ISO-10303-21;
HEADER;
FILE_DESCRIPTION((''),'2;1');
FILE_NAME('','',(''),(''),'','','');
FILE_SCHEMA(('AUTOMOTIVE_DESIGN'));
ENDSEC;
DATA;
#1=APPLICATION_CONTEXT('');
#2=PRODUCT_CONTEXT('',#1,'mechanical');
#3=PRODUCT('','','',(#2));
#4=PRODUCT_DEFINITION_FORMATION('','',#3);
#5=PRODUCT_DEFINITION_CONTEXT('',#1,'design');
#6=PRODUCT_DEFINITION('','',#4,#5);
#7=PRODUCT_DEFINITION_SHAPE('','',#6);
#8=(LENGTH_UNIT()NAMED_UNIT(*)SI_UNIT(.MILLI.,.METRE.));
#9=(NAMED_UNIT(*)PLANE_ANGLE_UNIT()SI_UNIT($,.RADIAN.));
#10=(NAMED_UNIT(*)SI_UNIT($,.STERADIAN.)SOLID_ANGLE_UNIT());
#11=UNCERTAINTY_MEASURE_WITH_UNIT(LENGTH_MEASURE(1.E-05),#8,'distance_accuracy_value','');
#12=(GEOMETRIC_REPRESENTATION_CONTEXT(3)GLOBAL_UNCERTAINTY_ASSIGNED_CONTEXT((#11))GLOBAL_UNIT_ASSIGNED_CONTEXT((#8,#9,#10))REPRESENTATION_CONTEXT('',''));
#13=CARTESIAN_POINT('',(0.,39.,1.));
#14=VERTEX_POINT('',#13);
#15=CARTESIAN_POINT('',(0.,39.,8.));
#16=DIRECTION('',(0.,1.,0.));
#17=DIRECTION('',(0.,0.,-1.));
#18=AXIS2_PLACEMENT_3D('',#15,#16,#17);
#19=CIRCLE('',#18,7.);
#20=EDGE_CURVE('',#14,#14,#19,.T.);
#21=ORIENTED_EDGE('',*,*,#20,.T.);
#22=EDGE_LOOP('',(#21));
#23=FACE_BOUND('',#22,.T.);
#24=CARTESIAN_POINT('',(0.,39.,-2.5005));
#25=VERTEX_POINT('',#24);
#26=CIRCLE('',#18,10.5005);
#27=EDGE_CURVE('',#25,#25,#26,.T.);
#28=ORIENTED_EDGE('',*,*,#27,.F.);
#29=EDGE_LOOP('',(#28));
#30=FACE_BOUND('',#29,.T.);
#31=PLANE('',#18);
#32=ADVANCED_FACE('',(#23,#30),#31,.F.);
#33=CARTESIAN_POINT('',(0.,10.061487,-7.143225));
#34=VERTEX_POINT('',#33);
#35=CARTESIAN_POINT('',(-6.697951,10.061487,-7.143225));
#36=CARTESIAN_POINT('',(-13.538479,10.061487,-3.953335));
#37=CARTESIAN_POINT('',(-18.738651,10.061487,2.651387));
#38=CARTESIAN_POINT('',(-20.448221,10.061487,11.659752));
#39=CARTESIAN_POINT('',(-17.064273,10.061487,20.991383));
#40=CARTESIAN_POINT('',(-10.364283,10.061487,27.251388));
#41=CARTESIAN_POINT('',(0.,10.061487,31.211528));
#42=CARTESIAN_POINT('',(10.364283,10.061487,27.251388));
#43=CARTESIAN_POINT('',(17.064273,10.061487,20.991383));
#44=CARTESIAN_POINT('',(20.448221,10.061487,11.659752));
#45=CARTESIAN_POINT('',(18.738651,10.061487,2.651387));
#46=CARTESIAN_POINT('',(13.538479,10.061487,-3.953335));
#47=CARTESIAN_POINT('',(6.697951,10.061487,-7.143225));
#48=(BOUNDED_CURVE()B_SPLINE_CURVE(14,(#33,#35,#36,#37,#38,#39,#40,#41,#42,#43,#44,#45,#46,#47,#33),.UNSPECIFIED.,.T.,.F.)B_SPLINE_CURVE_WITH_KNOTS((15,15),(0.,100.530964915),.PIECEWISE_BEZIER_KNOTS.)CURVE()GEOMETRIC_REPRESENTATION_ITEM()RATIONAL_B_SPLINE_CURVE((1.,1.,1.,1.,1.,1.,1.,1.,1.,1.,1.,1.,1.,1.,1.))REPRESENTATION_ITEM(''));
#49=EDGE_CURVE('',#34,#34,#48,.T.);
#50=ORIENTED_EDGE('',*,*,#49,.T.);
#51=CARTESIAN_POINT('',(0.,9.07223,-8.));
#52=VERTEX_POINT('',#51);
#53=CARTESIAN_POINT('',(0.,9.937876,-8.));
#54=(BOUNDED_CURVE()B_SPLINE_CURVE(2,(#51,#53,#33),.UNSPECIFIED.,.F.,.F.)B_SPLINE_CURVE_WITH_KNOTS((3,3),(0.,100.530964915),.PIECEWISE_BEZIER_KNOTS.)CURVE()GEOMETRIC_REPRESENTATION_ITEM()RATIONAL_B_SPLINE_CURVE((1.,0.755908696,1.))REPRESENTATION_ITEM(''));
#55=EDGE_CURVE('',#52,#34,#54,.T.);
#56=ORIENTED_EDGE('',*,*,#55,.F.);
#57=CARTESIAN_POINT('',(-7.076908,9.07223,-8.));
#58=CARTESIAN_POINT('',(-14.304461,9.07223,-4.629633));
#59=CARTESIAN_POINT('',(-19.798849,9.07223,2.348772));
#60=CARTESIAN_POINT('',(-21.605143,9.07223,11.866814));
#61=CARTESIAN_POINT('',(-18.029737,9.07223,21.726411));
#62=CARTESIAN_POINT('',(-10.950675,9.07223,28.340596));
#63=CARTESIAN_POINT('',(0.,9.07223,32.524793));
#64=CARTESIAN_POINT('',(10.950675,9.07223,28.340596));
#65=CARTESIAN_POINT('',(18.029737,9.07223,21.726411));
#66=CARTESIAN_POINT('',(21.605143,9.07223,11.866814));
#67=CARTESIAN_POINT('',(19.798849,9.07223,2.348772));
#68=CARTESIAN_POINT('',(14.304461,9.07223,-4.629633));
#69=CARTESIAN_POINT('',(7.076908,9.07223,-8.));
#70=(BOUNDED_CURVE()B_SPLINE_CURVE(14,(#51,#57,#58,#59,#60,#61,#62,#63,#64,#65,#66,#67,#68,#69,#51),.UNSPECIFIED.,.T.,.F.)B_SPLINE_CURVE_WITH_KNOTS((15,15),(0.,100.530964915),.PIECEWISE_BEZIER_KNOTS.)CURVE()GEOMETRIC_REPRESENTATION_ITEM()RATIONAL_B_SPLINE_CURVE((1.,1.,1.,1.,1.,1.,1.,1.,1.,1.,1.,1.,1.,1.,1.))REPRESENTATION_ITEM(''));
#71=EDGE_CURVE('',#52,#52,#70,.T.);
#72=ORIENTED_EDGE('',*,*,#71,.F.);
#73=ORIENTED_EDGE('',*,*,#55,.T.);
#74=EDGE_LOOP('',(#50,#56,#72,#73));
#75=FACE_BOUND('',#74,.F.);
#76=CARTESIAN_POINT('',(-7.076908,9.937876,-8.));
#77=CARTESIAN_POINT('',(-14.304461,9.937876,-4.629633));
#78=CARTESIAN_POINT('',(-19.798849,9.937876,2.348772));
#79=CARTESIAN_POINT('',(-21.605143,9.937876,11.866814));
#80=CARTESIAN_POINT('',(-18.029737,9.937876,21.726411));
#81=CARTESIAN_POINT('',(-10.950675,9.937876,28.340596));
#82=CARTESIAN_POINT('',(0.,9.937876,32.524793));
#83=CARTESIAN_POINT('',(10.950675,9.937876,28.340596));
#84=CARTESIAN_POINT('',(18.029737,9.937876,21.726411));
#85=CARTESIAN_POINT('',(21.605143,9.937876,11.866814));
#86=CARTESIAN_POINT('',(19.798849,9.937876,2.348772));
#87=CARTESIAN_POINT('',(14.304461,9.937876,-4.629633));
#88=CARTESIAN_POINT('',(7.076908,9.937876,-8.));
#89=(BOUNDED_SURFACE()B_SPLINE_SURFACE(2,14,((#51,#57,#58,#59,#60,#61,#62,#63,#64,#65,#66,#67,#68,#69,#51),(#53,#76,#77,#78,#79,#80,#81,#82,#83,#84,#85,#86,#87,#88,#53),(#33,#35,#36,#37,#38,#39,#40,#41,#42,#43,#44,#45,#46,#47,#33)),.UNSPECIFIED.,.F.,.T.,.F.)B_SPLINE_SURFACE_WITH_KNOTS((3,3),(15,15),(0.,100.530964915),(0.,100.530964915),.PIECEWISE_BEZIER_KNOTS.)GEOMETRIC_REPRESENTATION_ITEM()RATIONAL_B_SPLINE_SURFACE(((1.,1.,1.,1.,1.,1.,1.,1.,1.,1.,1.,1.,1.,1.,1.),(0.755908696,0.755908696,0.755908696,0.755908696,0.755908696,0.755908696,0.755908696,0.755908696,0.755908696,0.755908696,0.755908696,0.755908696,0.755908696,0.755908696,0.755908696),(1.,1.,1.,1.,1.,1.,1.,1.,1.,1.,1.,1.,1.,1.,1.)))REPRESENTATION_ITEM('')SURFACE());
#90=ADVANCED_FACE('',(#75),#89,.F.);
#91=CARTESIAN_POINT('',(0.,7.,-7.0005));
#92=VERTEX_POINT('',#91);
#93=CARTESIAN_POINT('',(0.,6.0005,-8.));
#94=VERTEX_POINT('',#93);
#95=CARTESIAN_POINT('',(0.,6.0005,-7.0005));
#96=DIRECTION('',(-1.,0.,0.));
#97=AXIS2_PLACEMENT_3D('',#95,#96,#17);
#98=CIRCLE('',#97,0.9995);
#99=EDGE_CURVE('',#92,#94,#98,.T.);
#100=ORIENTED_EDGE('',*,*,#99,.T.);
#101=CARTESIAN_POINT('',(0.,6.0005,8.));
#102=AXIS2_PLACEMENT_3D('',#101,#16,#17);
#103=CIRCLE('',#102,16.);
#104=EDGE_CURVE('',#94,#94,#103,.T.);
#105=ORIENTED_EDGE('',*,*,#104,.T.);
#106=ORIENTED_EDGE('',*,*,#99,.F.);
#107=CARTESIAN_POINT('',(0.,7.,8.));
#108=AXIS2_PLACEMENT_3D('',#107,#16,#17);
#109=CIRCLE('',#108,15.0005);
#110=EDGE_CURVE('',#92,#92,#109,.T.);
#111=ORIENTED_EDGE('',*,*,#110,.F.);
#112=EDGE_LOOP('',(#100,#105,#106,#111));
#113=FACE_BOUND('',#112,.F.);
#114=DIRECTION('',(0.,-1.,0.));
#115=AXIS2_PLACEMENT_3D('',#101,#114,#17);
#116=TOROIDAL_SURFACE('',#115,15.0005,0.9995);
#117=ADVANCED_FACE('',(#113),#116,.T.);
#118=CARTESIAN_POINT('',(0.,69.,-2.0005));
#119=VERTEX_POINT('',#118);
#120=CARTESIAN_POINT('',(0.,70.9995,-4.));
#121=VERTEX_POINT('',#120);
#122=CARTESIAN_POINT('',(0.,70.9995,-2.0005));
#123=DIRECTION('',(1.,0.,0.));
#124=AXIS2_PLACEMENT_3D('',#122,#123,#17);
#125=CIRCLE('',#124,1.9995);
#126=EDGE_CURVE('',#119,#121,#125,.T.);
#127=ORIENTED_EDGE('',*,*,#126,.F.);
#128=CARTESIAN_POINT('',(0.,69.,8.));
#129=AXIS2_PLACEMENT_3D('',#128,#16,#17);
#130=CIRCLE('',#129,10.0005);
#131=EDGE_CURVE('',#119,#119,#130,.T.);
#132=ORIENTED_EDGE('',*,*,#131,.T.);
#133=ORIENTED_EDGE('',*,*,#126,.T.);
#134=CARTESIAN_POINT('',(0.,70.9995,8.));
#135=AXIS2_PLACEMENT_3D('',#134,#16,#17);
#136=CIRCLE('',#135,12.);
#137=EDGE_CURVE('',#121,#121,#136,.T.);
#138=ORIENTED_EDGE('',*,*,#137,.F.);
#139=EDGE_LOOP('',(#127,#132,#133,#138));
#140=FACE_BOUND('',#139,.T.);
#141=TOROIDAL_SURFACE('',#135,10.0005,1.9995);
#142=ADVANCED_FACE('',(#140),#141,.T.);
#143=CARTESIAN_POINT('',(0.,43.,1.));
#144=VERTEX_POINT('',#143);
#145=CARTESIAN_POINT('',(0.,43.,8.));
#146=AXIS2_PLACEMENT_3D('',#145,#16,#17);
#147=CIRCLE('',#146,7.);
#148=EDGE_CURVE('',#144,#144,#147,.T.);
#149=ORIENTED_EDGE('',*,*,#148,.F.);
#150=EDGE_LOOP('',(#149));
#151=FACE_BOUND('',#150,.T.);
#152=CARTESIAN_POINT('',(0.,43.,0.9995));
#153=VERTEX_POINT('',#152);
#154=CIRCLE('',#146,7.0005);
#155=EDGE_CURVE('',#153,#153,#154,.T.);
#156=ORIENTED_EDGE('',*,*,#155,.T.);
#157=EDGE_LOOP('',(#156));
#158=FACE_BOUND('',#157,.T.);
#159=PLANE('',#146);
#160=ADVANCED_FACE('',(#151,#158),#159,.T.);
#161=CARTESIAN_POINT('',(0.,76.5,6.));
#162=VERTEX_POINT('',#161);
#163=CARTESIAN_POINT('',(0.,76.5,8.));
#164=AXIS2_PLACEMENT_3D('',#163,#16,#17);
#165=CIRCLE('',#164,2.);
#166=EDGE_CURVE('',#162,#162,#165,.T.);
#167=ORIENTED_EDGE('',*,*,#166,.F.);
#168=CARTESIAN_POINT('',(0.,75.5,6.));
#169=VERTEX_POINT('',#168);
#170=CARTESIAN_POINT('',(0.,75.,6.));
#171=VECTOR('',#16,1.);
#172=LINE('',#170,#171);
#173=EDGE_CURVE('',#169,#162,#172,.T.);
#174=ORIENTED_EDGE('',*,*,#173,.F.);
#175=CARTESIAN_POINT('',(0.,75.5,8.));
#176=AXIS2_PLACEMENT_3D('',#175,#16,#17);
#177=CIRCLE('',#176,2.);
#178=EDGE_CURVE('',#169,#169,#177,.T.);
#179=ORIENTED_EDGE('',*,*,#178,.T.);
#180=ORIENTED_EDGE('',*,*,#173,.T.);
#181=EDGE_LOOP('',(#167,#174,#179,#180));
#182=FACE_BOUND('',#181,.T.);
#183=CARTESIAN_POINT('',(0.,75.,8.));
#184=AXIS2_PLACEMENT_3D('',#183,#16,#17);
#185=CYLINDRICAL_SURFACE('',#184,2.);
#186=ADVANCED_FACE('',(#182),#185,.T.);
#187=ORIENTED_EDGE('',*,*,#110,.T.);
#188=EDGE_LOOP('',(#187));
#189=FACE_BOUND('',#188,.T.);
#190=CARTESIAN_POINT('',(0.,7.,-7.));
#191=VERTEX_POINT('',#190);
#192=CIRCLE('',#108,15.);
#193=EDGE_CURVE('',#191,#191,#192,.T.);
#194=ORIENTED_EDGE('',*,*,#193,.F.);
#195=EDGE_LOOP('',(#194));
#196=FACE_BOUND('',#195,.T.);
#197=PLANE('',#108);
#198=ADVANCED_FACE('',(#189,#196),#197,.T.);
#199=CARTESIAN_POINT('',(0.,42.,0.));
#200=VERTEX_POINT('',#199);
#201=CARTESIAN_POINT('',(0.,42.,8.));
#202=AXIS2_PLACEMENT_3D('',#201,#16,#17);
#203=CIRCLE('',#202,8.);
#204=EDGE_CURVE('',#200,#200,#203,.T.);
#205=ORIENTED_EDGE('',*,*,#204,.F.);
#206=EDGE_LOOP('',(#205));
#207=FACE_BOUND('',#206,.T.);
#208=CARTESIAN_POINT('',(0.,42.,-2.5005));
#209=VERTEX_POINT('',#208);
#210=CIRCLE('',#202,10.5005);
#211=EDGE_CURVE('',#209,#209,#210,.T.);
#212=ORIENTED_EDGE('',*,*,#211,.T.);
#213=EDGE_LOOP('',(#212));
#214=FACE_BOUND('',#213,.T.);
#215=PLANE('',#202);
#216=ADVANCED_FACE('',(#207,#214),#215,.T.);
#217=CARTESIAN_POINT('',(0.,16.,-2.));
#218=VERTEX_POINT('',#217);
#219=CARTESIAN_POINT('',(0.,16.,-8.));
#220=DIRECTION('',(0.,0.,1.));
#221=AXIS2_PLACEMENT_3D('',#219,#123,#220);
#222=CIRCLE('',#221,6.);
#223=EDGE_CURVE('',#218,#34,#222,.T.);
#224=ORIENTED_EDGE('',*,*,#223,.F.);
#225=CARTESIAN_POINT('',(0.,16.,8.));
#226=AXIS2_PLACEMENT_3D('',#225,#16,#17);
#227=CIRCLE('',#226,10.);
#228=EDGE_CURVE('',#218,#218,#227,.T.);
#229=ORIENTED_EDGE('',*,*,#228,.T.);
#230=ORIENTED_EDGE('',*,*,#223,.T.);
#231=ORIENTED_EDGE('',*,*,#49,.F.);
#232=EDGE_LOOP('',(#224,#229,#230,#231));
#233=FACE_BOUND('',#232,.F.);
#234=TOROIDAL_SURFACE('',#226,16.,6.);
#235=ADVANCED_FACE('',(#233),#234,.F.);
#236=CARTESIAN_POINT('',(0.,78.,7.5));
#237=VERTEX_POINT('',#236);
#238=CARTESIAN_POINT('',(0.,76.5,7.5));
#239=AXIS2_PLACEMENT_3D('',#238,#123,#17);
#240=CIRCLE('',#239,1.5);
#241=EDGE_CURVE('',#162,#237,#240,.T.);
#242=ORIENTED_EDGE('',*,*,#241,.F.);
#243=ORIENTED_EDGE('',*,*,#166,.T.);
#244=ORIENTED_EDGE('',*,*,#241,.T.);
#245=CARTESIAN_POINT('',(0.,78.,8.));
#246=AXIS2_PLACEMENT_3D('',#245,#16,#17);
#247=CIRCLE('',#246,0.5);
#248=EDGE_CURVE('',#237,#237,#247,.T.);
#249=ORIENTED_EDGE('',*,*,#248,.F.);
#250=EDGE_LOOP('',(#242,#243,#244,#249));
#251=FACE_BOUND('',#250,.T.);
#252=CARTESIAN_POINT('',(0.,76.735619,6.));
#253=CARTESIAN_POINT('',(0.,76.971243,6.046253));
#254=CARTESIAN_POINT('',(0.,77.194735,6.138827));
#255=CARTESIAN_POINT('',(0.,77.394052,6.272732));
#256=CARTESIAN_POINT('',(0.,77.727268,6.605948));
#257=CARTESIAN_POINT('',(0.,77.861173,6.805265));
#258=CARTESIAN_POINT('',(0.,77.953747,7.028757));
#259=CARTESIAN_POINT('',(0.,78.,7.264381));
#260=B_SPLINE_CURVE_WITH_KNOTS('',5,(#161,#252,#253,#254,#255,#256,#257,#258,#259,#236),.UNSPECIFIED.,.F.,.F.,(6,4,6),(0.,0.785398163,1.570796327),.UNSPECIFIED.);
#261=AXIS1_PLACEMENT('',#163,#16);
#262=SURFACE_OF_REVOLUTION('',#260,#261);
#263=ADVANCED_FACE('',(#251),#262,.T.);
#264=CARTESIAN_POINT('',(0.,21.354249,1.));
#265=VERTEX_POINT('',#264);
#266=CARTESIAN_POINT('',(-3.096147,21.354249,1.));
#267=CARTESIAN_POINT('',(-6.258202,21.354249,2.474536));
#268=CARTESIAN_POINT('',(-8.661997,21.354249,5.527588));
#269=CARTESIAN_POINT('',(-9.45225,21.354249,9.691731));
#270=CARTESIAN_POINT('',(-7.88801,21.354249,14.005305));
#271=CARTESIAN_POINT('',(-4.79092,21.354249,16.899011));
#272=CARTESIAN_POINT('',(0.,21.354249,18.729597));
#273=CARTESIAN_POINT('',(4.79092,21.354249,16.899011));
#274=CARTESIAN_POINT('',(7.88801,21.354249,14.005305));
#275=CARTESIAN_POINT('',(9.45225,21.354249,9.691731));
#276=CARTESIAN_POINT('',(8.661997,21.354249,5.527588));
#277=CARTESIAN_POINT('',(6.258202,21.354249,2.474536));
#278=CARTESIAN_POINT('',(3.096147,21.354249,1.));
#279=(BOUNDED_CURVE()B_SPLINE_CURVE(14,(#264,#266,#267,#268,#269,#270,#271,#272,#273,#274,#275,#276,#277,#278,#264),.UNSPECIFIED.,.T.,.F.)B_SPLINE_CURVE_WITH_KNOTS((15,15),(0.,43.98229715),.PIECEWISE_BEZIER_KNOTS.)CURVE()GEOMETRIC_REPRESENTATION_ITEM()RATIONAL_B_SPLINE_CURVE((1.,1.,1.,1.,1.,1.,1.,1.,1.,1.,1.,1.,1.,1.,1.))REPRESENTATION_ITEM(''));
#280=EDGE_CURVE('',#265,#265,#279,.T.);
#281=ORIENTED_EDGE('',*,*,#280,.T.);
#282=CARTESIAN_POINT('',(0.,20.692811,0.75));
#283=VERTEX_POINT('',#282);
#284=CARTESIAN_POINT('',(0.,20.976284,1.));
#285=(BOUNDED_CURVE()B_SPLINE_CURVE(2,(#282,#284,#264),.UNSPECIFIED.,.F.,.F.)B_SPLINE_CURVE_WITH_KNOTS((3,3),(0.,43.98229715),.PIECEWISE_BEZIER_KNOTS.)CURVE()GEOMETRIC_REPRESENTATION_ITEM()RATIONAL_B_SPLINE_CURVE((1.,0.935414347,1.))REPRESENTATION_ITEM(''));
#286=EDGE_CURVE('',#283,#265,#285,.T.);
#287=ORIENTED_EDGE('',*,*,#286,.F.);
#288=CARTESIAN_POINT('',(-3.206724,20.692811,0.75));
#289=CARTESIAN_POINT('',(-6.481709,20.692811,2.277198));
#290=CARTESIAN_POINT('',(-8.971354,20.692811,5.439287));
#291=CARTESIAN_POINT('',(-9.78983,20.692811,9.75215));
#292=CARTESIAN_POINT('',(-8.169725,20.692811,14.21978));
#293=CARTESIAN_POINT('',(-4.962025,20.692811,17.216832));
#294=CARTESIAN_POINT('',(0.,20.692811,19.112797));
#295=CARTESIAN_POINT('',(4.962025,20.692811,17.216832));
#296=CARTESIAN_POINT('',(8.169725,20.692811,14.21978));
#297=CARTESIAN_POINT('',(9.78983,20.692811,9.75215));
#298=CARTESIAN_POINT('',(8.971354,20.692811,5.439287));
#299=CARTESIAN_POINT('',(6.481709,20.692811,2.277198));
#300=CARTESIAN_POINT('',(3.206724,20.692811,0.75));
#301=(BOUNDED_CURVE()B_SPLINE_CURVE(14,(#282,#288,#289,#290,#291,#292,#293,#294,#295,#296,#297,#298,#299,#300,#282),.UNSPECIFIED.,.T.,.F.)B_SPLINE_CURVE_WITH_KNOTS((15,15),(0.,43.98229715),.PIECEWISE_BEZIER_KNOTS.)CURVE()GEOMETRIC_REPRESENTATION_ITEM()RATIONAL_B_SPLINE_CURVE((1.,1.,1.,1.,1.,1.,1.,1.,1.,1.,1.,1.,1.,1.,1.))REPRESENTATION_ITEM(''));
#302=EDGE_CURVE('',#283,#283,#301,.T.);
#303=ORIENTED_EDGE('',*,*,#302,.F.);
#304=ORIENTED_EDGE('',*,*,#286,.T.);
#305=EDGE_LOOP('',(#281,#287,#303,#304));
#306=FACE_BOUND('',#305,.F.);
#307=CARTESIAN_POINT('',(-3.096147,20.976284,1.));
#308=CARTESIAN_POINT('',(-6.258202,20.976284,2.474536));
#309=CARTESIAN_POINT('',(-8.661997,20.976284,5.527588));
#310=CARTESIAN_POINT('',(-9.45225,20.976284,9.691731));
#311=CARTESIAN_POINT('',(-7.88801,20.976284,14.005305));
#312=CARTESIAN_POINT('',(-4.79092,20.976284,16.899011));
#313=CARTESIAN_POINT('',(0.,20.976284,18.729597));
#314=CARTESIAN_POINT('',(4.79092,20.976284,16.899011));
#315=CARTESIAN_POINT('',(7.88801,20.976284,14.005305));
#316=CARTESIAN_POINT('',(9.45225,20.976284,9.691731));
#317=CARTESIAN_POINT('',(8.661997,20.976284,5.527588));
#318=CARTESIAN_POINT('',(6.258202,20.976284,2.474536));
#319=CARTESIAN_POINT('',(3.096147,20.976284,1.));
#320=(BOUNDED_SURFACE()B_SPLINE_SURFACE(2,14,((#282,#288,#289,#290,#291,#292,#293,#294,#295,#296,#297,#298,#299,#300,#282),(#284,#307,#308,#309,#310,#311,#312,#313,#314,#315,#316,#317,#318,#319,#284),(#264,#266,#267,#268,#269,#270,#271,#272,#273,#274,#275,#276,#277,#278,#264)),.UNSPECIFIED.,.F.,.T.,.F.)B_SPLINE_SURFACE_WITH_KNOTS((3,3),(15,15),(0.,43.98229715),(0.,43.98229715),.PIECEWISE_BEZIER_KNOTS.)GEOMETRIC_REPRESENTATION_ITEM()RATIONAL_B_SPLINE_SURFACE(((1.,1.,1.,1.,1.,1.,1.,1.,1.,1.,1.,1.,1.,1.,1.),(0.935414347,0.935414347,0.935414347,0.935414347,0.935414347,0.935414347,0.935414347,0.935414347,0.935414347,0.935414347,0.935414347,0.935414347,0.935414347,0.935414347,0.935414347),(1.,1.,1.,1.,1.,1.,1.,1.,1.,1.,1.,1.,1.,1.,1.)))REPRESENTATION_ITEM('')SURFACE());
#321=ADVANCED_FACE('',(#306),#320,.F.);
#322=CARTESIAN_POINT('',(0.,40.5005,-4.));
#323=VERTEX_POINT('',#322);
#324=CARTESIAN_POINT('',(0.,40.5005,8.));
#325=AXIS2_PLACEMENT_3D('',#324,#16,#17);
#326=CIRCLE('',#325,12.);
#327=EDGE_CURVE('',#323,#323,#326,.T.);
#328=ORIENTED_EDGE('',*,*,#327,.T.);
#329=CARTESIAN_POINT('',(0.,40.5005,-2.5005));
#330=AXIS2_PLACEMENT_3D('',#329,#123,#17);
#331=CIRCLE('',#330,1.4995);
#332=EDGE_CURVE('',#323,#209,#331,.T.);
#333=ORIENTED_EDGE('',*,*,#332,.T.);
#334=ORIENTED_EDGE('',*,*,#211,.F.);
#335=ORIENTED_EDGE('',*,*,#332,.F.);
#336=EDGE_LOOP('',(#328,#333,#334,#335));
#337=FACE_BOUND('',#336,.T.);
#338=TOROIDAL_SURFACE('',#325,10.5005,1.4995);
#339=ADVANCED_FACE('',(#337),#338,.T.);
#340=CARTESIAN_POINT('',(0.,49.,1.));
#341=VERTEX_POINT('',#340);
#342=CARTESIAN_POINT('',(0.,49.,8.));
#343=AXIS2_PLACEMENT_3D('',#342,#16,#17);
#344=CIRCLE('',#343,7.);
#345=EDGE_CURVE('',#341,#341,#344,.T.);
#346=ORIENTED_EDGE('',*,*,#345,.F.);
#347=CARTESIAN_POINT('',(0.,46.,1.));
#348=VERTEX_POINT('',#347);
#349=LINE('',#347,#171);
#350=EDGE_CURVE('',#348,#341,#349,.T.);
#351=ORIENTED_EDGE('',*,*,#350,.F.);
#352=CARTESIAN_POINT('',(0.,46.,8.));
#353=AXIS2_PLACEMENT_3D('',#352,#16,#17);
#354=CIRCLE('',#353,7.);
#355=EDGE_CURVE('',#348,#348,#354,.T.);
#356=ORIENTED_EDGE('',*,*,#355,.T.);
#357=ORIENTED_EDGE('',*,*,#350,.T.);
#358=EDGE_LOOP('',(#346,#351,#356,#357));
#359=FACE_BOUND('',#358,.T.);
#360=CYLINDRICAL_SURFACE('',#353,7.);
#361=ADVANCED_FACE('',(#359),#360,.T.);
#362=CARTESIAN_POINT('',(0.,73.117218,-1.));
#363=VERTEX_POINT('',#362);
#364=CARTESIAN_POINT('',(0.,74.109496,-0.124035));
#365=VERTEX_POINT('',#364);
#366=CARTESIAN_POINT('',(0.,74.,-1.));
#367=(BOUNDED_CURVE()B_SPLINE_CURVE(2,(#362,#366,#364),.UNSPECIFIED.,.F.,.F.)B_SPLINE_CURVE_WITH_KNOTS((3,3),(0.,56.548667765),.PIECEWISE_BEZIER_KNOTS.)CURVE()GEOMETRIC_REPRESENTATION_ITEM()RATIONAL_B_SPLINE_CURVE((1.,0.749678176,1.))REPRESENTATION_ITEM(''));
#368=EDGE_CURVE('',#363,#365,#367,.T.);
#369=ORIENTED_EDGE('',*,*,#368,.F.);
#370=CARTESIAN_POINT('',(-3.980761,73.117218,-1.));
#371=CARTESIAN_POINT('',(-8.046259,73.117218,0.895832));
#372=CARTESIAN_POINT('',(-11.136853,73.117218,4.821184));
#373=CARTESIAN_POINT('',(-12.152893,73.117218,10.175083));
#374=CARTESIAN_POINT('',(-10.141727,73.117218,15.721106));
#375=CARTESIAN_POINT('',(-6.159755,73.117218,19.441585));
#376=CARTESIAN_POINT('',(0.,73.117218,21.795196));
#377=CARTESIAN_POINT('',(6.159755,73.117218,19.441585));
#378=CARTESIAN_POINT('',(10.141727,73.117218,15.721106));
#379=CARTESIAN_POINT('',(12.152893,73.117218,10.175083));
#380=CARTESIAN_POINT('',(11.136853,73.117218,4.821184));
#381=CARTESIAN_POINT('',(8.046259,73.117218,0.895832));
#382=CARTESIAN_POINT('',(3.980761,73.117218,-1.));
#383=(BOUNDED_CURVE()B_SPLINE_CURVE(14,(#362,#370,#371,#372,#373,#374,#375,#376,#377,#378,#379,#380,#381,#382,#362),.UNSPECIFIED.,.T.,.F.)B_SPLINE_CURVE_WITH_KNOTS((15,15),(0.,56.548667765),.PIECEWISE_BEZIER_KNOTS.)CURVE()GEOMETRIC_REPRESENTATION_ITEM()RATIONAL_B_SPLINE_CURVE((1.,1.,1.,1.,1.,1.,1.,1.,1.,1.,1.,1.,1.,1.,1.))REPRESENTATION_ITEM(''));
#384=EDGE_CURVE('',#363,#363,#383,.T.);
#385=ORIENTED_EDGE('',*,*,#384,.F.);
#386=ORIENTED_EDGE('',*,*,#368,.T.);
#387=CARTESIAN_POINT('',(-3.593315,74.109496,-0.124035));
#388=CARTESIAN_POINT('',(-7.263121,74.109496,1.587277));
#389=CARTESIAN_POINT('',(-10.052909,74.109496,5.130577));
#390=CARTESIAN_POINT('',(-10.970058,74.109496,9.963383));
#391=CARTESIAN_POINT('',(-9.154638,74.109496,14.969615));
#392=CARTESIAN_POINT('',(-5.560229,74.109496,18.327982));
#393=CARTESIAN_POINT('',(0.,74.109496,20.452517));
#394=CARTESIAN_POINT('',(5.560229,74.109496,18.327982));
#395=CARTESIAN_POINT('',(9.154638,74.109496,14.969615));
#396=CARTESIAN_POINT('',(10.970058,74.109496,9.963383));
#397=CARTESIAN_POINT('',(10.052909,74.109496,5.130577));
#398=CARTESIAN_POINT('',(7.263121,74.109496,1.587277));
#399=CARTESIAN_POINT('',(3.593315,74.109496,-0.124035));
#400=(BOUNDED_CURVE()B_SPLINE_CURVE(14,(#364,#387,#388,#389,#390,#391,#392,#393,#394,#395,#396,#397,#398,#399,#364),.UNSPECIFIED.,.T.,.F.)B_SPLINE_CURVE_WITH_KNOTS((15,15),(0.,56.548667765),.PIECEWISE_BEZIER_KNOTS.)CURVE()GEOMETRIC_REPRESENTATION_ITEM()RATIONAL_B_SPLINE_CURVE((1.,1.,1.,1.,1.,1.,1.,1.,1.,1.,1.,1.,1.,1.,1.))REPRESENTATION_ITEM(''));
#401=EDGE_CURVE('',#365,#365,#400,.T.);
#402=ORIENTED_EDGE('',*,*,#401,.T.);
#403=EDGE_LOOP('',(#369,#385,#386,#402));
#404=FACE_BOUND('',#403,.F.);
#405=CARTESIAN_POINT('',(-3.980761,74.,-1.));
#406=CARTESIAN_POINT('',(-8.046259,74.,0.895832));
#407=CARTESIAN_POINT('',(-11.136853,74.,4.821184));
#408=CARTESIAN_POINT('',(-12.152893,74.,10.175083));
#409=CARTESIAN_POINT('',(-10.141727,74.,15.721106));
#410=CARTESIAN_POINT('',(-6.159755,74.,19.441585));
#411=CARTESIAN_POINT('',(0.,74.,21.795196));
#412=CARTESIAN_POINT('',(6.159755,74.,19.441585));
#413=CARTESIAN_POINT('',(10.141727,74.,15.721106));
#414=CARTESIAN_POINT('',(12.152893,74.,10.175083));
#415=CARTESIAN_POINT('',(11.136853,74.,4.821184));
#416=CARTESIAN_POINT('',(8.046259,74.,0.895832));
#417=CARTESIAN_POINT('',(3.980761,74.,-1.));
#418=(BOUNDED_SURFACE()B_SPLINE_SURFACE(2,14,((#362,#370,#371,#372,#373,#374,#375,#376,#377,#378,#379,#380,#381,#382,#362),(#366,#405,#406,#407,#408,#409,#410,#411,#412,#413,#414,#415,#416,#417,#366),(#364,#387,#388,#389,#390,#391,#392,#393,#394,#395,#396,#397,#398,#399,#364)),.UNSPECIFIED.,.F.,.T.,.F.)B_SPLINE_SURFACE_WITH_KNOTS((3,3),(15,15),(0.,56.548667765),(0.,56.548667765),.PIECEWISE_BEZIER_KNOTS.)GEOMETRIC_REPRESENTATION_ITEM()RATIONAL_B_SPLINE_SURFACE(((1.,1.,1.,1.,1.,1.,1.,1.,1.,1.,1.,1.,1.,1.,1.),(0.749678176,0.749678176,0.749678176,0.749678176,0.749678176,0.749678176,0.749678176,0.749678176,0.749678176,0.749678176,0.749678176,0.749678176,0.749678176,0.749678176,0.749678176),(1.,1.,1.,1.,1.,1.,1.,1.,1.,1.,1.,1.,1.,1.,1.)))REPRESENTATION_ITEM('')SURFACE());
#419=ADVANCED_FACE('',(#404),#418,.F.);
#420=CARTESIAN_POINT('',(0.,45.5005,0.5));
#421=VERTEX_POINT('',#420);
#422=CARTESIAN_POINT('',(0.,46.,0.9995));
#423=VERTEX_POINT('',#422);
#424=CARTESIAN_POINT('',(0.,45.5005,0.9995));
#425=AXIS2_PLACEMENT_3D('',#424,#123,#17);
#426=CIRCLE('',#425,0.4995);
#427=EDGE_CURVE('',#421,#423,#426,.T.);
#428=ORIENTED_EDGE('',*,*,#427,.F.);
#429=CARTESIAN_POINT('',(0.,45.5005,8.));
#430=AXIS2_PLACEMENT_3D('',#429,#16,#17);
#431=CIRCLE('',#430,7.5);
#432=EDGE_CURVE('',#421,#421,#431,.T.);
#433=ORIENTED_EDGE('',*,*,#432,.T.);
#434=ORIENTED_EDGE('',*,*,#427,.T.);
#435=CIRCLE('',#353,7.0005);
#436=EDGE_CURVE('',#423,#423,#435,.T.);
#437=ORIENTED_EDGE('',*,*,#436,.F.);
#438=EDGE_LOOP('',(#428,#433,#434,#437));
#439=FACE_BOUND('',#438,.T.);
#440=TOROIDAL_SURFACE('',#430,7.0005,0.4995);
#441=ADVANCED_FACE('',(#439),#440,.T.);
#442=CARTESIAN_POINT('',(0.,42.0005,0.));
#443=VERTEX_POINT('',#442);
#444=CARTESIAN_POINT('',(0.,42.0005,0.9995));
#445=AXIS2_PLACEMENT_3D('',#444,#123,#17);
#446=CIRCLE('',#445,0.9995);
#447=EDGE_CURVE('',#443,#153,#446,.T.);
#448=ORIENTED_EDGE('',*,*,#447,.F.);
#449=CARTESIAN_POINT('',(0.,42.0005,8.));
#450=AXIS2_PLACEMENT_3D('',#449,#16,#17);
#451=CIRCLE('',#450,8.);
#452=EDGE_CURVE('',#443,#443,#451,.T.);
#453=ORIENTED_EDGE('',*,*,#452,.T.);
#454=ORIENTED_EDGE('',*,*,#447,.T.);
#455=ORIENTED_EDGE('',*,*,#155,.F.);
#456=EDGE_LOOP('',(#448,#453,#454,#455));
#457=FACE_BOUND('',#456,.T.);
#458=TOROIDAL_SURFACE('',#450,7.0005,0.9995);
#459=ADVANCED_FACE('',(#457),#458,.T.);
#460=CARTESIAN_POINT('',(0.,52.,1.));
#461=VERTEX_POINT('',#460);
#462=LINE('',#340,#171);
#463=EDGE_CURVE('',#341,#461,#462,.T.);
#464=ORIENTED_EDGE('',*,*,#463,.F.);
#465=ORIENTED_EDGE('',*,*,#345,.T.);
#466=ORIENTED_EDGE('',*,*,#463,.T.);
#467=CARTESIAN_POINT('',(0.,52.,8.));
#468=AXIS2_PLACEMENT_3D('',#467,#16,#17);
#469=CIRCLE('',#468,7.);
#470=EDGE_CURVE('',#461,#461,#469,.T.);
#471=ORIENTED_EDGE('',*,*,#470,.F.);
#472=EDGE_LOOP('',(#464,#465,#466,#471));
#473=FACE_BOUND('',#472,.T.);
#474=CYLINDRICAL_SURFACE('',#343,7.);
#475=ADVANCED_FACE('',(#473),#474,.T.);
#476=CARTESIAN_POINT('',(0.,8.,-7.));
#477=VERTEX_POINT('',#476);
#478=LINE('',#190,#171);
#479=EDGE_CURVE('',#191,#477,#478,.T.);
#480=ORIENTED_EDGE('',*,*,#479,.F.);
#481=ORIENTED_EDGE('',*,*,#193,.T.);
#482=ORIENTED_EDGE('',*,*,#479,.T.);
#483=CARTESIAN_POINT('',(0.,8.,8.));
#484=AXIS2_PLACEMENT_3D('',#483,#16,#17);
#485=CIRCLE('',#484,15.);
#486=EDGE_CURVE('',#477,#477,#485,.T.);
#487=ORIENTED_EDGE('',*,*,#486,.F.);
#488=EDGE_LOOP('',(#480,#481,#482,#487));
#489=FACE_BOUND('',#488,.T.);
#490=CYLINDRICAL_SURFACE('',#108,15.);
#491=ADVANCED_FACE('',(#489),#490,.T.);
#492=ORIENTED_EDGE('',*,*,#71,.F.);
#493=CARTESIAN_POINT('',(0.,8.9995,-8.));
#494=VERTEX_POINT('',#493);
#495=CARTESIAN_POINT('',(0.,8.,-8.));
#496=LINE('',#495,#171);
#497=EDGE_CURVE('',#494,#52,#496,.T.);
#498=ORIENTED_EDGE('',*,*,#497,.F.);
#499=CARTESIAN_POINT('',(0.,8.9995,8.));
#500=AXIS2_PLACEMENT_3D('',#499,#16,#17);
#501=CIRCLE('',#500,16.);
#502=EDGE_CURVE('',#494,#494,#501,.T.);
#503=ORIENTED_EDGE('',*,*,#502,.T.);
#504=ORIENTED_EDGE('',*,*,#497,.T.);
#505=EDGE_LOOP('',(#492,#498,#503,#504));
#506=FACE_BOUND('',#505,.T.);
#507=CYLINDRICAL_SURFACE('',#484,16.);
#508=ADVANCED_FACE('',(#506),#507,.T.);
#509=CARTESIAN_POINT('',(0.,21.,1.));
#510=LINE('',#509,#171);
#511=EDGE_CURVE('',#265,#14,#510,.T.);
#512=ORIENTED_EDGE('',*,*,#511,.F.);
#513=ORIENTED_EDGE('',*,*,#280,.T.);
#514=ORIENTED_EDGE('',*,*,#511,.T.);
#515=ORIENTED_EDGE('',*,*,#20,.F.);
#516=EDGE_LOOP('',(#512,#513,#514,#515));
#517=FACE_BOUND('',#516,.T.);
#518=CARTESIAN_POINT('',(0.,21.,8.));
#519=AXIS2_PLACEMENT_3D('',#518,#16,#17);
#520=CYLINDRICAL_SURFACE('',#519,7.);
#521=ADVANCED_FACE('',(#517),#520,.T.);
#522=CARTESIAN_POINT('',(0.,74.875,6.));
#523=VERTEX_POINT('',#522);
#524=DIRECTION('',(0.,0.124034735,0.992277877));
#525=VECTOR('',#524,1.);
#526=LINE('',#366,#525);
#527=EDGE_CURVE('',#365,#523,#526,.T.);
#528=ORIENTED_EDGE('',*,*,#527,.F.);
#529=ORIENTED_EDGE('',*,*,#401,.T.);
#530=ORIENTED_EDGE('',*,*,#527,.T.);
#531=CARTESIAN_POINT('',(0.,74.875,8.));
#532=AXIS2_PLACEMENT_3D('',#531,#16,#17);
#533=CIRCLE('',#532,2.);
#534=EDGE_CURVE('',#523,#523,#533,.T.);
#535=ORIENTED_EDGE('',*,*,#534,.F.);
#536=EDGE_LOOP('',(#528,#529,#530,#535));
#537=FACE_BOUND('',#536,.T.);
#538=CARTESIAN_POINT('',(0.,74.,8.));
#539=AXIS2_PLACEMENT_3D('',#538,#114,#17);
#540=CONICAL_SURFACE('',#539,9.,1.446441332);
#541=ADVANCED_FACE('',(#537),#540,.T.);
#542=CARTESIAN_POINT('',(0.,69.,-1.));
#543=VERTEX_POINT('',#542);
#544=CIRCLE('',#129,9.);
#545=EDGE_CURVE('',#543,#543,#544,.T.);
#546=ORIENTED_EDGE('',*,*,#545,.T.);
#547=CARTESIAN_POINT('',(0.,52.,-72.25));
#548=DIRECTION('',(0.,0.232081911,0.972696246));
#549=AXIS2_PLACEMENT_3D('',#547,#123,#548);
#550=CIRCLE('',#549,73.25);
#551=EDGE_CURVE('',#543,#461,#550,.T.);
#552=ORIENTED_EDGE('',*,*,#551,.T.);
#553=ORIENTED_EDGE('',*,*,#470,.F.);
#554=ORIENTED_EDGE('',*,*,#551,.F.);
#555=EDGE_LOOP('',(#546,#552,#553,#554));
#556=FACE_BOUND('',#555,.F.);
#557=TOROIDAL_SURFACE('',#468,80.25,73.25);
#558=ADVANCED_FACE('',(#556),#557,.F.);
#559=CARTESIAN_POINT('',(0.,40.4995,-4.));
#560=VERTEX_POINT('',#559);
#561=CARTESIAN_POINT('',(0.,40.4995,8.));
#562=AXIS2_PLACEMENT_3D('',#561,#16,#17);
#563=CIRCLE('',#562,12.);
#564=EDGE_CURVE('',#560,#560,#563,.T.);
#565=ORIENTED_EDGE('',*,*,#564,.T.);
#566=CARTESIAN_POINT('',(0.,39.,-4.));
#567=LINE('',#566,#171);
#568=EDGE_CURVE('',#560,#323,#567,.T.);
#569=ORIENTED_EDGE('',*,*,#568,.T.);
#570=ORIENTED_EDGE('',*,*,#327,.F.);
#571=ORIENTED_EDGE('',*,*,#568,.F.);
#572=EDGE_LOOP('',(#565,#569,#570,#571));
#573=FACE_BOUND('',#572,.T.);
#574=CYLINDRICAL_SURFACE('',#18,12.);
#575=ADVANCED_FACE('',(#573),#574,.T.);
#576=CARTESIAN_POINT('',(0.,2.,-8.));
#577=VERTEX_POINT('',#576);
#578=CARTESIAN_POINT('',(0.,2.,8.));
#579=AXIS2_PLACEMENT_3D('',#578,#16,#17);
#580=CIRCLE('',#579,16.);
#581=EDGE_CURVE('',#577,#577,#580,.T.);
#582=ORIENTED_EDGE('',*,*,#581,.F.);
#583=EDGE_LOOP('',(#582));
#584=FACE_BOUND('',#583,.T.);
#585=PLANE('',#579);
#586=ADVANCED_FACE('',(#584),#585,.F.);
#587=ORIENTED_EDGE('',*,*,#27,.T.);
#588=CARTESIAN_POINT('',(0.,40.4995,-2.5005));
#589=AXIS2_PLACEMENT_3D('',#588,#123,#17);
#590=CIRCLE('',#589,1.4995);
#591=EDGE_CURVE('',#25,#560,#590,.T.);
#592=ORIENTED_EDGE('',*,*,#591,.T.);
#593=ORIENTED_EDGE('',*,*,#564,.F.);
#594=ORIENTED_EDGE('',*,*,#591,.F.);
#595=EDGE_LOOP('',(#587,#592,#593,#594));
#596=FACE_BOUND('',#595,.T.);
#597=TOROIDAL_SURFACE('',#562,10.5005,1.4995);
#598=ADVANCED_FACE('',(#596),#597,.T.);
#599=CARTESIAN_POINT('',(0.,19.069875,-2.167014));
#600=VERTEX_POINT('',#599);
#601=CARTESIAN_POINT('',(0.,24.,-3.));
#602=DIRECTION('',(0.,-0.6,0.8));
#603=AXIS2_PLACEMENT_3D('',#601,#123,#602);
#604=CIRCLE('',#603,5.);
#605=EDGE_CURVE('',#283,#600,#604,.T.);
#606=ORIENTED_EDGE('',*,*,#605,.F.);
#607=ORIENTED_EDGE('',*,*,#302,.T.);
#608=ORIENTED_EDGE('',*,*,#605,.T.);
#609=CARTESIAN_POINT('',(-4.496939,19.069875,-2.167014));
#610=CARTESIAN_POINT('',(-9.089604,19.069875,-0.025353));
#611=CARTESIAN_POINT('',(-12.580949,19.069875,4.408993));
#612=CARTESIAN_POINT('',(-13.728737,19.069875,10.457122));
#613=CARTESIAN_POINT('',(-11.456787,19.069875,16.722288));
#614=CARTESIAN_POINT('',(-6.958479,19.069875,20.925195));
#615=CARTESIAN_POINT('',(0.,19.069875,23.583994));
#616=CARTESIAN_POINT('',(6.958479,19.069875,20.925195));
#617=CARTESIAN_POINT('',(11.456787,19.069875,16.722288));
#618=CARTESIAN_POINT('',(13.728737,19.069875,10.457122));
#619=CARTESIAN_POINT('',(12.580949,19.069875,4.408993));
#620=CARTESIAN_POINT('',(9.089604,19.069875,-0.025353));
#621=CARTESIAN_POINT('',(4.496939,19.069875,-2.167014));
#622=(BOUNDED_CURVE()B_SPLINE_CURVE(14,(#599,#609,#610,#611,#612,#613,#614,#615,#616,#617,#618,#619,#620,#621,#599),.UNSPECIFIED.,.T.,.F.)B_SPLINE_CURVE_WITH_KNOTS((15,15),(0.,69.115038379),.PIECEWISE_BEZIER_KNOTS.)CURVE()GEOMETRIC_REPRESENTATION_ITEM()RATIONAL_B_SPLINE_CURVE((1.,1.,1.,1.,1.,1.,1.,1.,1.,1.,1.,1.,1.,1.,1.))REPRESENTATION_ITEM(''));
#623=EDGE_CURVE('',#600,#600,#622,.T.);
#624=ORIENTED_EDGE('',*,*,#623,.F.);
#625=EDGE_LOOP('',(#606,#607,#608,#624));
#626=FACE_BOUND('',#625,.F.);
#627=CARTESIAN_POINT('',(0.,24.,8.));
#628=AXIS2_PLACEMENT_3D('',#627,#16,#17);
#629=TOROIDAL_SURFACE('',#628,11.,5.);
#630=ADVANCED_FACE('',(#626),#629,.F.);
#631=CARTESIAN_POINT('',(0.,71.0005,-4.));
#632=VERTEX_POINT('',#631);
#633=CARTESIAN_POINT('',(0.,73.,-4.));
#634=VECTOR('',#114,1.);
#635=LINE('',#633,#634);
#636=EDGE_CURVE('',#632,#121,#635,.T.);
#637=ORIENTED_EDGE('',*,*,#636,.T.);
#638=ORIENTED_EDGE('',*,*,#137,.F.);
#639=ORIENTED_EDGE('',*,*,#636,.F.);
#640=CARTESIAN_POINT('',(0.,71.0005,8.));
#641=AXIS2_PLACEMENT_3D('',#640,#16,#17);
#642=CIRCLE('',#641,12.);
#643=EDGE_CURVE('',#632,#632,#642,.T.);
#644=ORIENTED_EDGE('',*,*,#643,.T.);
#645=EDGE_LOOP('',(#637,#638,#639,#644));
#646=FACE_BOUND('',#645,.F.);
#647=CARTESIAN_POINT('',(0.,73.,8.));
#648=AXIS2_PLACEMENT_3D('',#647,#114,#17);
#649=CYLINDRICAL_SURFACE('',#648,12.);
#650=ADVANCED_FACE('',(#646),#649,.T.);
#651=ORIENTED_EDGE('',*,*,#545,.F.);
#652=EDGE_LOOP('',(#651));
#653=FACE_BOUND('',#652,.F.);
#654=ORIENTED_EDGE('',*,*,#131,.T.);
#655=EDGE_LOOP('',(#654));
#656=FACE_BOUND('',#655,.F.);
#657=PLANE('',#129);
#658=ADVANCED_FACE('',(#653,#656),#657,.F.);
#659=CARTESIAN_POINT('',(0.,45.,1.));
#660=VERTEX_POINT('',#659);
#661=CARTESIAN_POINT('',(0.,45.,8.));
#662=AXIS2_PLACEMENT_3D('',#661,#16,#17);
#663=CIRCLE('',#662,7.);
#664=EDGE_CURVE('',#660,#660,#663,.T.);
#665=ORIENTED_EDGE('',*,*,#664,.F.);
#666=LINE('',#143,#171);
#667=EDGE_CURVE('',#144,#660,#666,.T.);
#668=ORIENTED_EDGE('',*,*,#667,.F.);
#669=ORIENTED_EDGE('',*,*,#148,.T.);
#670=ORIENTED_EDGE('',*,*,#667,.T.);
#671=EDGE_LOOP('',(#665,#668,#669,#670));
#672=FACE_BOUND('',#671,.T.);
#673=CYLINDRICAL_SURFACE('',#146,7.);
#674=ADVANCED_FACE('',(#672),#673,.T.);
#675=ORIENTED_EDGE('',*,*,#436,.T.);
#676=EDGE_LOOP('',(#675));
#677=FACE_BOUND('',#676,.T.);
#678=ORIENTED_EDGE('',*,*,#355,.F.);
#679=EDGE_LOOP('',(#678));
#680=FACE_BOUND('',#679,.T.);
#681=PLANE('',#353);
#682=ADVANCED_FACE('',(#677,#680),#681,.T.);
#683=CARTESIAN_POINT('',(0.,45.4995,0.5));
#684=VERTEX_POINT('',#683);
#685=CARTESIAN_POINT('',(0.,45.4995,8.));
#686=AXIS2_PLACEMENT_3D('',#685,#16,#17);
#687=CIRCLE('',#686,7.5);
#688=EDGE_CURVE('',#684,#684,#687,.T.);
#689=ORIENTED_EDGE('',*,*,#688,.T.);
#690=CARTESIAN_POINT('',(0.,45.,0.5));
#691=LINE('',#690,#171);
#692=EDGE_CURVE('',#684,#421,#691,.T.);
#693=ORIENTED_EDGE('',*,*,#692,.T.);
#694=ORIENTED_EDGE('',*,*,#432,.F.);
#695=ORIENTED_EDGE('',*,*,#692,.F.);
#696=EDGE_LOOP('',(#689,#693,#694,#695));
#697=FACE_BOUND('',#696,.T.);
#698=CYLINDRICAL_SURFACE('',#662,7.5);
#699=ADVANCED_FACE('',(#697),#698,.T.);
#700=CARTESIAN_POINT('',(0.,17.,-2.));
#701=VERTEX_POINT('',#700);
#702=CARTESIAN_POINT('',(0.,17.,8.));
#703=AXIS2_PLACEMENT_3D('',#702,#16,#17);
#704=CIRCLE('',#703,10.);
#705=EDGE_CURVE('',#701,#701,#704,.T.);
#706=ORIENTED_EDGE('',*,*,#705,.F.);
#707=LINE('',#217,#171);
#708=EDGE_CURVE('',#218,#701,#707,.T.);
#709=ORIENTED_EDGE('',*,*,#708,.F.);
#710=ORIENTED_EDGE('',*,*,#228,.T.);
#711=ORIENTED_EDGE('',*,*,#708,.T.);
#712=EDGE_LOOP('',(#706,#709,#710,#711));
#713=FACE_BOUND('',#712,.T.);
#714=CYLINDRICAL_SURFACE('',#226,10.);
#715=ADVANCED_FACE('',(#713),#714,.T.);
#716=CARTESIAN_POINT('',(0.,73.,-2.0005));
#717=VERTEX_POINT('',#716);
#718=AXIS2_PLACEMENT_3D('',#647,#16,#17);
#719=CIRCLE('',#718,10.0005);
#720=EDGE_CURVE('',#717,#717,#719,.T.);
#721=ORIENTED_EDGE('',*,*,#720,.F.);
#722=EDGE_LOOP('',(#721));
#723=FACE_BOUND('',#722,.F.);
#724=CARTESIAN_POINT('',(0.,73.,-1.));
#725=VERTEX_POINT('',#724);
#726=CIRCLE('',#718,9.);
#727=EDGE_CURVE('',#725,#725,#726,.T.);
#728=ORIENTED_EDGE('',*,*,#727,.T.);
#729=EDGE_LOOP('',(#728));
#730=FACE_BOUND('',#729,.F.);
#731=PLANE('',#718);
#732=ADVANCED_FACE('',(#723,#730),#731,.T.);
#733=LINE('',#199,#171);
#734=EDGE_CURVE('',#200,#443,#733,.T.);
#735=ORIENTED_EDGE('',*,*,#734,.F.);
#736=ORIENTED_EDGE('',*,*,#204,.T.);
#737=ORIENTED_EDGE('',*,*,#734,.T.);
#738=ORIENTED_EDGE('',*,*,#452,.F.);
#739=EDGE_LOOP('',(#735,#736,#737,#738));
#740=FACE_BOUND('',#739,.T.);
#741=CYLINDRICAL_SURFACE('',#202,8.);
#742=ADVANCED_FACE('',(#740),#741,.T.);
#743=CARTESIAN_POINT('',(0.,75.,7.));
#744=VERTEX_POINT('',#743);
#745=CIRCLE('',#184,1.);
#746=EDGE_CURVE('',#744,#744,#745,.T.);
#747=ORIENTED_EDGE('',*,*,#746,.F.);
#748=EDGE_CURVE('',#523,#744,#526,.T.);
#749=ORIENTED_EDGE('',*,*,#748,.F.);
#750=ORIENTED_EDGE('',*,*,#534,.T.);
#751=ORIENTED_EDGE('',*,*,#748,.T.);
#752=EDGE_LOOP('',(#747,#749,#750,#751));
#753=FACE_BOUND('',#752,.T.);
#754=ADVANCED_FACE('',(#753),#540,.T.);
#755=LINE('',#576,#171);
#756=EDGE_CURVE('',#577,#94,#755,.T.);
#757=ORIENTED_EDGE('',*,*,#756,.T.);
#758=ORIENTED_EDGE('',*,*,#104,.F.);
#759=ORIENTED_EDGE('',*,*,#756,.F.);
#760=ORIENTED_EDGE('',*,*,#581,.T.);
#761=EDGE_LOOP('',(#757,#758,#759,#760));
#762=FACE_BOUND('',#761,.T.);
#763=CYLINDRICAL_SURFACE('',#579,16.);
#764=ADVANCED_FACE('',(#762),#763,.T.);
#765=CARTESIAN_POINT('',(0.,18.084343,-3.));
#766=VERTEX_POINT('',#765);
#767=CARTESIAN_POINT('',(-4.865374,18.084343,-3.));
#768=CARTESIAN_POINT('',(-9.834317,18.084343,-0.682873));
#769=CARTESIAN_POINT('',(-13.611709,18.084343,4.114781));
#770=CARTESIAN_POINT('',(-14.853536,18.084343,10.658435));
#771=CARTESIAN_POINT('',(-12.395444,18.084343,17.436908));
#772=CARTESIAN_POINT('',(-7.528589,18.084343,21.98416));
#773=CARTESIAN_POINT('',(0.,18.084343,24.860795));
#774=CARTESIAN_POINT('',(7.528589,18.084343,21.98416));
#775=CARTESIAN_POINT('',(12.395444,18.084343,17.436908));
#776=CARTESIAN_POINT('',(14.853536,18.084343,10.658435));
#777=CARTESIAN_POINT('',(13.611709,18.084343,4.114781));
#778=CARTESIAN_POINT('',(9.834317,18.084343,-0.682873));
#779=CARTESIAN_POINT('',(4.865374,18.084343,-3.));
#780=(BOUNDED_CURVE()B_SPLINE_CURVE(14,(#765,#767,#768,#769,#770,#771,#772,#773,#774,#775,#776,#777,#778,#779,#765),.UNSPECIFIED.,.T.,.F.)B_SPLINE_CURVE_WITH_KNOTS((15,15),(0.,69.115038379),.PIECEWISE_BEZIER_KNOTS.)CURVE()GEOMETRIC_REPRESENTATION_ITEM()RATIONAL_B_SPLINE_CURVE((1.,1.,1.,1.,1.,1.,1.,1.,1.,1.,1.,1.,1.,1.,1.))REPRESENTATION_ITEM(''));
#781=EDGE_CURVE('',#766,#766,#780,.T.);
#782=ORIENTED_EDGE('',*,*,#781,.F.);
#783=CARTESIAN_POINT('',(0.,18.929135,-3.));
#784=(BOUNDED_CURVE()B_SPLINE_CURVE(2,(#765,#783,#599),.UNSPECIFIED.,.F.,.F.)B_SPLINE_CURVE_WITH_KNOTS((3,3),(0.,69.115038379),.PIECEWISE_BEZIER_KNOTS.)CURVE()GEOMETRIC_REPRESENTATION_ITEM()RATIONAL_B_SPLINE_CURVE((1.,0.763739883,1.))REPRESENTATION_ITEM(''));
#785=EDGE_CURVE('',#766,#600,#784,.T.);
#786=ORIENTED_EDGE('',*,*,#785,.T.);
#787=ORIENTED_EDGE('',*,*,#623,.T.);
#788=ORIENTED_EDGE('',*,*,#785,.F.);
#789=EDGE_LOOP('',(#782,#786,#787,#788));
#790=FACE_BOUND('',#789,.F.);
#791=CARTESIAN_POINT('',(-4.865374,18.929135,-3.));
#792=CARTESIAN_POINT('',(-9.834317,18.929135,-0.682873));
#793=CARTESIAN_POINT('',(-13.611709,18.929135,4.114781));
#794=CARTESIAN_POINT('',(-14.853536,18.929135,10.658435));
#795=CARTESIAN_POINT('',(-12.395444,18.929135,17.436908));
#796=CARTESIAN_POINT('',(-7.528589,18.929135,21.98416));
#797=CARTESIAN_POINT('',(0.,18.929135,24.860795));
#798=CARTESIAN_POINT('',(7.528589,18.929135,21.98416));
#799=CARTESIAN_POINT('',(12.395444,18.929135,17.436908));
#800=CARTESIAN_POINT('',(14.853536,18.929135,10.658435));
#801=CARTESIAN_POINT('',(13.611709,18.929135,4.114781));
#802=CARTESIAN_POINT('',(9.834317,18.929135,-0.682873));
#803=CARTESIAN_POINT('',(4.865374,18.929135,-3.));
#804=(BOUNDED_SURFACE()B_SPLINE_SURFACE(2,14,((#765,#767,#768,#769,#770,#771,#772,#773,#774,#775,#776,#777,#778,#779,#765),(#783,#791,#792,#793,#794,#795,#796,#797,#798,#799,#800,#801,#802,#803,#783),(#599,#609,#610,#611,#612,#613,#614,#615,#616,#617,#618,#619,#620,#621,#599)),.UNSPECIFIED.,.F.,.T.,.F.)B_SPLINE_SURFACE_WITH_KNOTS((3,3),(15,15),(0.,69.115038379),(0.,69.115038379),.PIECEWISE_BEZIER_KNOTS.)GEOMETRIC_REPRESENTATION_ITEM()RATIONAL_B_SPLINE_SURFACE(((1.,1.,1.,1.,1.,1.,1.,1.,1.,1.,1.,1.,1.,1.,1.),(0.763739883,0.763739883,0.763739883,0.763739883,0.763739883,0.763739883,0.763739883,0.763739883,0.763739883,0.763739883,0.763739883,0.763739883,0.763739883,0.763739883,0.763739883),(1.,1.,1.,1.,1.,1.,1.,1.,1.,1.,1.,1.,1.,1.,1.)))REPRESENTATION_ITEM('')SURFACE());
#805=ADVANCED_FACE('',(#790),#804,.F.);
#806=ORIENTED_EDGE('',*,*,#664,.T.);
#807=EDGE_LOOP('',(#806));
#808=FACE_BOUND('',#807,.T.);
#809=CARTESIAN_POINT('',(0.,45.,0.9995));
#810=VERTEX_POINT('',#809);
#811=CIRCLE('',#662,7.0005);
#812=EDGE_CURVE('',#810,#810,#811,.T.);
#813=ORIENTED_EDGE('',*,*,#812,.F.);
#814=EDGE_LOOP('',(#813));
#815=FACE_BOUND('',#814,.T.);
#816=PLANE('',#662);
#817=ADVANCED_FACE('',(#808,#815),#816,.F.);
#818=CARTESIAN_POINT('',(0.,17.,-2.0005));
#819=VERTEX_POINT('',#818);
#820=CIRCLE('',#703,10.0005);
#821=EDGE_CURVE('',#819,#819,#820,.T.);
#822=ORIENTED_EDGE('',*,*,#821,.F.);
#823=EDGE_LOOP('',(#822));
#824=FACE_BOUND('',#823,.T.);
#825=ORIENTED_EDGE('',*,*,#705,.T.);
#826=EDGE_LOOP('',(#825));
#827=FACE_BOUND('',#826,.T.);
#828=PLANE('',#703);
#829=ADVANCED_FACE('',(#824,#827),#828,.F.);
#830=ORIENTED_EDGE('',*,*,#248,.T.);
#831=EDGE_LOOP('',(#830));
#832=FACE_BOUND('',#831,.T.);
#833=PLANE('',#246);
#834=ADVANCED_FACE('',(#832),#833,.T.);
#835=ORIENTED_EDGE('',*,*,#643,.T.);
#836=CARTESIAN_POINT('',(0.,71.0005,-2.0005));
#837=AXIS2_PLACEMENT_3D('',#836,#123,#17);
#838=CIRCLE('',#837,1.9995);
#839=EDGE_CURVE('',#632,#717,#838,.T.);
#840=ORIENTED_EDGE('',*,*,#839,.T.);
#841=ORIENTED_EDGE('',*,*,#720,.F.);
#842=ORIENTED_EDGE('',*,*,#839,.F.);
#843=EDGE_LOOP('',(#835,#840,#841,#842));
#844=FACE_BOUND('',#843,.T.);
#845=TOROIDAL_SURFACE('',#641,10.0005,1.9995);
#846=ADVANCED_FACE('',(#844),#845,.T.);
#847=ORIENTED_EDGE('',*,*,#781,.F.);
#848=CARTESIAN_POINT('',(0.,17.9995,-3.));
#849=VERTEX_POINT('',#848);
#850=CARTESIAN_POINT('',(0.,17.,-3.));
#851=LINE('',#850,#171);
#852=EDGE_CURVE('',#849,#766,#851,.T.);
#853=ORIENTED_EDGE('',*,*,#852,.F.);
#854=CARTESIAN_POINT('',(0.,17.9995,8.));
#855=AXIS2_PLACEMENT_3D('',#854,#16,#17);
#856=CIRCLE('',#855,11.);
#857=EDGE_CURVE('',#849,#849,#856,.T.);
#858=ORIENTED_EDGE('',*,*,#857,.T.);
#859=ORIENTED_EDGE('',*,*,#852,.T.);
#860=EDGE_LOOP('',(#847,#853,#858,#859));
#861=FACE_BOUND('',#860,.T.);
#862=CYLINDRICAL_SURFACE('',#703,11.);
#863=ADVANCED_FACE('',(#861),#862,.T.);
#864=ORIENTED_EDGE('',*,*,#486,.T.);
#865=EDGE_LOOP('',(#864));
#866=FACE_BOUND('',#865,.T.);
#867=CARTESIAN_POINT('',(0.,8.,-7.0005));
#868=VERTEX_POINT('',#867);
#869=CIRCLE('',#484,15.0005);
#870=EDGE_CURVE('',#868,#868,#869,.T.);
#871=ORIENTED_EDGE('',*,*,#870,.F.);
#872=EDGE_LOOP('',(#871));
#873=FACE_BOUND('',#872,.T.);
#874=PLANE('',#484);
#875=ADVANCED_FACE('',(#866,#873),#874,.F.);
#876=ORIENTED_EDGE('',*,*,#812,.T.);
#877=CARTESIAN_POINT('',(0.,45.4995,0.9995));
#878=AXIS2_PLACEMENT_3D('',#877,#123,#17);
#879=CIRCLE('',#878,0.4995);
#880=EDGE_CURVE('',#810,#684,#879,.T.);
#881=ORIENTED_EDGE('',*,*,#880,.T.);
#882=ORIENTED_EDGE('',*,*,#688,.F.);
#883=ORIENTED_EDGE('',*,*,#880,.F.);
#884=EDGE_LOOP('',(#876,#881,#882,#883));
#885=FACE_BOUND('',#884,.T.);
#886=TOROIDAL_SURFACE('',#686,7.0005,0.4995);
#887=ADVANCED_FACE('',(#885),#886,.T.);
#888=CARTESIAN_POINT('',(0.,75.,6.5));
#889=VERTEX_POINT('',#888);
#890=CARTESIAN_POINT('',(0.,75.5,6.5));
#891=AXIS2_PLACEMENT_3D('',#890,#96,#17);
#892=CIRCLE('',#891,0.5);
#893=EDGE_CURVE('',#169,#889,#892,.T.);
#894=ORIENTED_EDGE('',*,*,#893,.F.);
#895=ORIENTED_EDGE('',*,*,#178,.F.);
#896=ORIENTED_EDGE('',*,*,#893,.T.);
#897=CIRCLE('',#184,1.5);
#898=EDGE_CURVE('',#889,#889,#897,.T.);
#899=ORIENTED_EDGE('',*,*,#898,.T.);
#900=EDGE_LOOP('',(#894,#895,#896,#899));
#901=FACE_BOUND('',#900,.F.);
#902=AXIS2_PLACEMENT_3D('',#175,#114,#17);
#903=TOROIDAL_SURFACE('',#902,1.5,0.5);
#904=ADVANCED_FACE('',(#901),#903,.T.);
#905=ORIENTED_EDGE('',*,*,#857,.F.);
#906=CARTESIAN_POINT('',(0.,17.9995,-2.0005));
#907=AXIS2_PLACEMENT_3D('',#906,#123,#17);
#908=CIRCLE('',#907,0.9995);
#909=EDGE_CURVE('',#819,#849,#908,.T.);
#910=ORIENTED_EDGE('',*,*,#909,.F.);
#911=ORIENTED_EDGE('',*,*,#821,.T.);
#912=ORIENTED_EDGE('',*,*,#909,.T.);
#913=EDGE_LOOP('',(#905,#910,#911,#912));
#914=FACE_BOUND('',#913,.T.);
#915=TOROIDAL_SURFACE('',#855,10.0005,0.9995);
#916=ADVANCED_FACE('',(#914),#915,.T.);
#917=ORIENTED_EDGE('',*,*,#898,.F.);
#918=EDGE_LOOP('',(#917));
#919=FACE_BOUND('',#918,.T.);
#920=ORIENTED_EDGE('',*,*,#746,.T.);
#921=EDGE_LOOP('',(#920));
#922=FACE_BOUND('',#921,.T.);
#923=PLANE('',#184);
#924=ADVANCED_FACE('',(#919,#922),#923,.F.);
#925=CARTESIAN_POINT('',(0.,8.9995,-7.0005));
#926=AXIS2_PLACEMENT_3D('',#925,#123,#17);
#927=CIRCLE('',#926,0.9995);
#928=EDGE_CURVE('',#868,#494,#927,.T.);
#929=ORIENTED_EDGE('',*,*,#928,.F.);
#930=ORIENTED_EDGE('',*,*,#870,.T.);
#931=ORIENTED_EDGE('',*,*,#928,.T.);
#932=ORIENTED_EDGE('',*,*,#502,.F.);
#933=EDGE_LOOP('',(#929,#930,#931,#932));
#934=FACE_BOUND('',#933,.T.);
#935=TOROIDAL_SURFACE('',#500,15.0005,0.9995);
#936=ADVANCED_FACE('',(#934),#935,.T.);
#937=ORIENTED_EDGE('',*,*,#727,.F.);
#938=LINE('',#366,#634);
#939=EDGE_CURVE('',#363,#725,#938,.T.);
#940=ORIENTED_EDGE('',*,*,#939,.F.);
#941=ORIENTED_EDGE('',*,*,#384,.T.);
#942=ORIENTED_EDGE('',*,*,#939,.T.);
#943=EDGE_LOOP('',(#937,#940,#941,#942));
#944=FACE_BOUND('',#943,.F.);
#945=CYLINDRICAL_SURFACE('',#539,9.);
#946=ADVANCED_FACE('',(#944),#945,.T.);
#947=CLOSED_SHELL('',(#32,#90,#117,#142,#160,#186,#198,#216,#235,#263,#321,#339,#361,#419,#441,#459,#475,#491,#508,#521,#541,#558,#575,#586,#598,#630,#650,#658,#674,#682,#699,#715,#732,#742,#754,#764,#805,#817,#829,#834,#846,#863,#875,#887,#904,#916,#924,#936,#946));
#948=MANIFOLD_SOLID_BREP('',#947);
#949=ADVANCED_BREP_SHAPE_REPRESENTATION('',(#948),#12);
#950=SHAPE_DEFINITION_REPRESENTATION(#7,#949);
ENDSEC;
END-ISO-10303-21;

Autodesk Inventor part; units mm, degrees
ref_plane "YZ Plane" through (0, 0, 0) normal (1, 0, 0) x (0, 1, 0)
ref_plane "XZ Plane" through (0, 0, 0) normal (0, 1, 0) x (-1, 0, 0)
ref_plane "XY Plane" through (0, 0, 0) normal (0, 0, 1) x (1, 0, 0)
sketch "Szkic1" plane through (0, 0, 0) normal (1, 0, 0) x (0, 1, 0)
  line L0 (2, 8) -> (2, -8)
  line L1 (2, 8) -> (78, 8)
  line L2 (2, -8) -> (7, -8)
  line L3 (7, -8) -> (7, -7)
  line L4 (7, -7) -> (8, -7)
  line L5 (8, -7) -> (8, -8)
  line L6 (8, -8) -> (10, -8)
  arc A0 (16, -2) -> (10, -8) centre (16, -8) ccw
  line L7 (16, -2) -> (17, -2)
  line L8 (17, -2) -> (17, -3)
  line L9 (17, -3) -> (19, -3)
  arc A1 (21, 1) -> (19, -3) centre (24, -3) ccw
  line L10 (21, 1) -> (39, 1)
  line L11 (39, 1) -> (39, -4)
  line L12 (39, -4) -> (42, -4)
  line L13 (42, -4) -> (42, 0)
  line L14 (42, 0) -> (43, 0)
  line L15 (43, 0) -> (43, 1)
  line L16 (43, 1) -> (45, 1)
  line L17 (45, 1) -> (45, 0.5)
  line L18 (45, 0.5) -> (46, 0.5)
  line L19 (46, 0.5) -> (46, 1)
  line L20 (46, 1) -> (49, 1)
  line L21 (49, 1) -> (52, 1)
  line L22 (74, -1) -> (75, 7)
  line L23 (74, -1) -> (73, -1)
  line L24 (73, -1) -> (73, -4)
  line L25 (73, -4) -> (69, -4)
  line L26 (69, -4) -> (69, -1)
  arc A2 (69, -1) -> (52, 1) centre (52, -72.25) ccw
  line L27 (75, 7) -> (74.875, 6)
  line L28 (75, 7) -> (75, 6)
  line L29 (75, 6) -> (78, 6)
  line L30 (78, 6) -> (78, 8)
  point P0 (0, 0)
revolve "Obrót2" add sketch "Szkic1" angle 360 about axis through (0, 2, 8) along (0, 1, 0)
fillet "Zaokrąglenie1" radius 1 1 edges at (0, 7, 24)
fillet "Zaokrąglenie2" radius 1 2 edges at (0, 8, 24) (0, 10, 24)
fillet "Zaokrąglenie3" radius 1 2 edges at (0, 17, 19) (0, 19, 19)
fillet "Zaokrąglenie4" radius 1 1 edges at (0, 21, 15)
fillet "Zaokrąglenie5" radius 1.5 2 edges at (0, 39, 20) (0, 42, 20)
fillet "Zaokrąglenie6" radius 1 1 edges at (0, 43, 16)
fillet "Zaokrąglenie7" radius 0.5 2 edges at (0, 45, 15.5) (0, 46, 15.5)
fillet "Zaokrąglenie8" radius 2 2 edges at (0, 69, 20) (0, 73, 20)
fillet "Zaokrąglenie9" radius 1 1 edges at (0, 74, 17)
fillet "Zaokrąglenie10" radius 1.5 1 edges at (0, 78, 10)
fillet "Zaokrąglenie11" radius 0.5 1 edges at (0, 75, 10)
properties part number "królowa" material "Drewno (brzoza)"
